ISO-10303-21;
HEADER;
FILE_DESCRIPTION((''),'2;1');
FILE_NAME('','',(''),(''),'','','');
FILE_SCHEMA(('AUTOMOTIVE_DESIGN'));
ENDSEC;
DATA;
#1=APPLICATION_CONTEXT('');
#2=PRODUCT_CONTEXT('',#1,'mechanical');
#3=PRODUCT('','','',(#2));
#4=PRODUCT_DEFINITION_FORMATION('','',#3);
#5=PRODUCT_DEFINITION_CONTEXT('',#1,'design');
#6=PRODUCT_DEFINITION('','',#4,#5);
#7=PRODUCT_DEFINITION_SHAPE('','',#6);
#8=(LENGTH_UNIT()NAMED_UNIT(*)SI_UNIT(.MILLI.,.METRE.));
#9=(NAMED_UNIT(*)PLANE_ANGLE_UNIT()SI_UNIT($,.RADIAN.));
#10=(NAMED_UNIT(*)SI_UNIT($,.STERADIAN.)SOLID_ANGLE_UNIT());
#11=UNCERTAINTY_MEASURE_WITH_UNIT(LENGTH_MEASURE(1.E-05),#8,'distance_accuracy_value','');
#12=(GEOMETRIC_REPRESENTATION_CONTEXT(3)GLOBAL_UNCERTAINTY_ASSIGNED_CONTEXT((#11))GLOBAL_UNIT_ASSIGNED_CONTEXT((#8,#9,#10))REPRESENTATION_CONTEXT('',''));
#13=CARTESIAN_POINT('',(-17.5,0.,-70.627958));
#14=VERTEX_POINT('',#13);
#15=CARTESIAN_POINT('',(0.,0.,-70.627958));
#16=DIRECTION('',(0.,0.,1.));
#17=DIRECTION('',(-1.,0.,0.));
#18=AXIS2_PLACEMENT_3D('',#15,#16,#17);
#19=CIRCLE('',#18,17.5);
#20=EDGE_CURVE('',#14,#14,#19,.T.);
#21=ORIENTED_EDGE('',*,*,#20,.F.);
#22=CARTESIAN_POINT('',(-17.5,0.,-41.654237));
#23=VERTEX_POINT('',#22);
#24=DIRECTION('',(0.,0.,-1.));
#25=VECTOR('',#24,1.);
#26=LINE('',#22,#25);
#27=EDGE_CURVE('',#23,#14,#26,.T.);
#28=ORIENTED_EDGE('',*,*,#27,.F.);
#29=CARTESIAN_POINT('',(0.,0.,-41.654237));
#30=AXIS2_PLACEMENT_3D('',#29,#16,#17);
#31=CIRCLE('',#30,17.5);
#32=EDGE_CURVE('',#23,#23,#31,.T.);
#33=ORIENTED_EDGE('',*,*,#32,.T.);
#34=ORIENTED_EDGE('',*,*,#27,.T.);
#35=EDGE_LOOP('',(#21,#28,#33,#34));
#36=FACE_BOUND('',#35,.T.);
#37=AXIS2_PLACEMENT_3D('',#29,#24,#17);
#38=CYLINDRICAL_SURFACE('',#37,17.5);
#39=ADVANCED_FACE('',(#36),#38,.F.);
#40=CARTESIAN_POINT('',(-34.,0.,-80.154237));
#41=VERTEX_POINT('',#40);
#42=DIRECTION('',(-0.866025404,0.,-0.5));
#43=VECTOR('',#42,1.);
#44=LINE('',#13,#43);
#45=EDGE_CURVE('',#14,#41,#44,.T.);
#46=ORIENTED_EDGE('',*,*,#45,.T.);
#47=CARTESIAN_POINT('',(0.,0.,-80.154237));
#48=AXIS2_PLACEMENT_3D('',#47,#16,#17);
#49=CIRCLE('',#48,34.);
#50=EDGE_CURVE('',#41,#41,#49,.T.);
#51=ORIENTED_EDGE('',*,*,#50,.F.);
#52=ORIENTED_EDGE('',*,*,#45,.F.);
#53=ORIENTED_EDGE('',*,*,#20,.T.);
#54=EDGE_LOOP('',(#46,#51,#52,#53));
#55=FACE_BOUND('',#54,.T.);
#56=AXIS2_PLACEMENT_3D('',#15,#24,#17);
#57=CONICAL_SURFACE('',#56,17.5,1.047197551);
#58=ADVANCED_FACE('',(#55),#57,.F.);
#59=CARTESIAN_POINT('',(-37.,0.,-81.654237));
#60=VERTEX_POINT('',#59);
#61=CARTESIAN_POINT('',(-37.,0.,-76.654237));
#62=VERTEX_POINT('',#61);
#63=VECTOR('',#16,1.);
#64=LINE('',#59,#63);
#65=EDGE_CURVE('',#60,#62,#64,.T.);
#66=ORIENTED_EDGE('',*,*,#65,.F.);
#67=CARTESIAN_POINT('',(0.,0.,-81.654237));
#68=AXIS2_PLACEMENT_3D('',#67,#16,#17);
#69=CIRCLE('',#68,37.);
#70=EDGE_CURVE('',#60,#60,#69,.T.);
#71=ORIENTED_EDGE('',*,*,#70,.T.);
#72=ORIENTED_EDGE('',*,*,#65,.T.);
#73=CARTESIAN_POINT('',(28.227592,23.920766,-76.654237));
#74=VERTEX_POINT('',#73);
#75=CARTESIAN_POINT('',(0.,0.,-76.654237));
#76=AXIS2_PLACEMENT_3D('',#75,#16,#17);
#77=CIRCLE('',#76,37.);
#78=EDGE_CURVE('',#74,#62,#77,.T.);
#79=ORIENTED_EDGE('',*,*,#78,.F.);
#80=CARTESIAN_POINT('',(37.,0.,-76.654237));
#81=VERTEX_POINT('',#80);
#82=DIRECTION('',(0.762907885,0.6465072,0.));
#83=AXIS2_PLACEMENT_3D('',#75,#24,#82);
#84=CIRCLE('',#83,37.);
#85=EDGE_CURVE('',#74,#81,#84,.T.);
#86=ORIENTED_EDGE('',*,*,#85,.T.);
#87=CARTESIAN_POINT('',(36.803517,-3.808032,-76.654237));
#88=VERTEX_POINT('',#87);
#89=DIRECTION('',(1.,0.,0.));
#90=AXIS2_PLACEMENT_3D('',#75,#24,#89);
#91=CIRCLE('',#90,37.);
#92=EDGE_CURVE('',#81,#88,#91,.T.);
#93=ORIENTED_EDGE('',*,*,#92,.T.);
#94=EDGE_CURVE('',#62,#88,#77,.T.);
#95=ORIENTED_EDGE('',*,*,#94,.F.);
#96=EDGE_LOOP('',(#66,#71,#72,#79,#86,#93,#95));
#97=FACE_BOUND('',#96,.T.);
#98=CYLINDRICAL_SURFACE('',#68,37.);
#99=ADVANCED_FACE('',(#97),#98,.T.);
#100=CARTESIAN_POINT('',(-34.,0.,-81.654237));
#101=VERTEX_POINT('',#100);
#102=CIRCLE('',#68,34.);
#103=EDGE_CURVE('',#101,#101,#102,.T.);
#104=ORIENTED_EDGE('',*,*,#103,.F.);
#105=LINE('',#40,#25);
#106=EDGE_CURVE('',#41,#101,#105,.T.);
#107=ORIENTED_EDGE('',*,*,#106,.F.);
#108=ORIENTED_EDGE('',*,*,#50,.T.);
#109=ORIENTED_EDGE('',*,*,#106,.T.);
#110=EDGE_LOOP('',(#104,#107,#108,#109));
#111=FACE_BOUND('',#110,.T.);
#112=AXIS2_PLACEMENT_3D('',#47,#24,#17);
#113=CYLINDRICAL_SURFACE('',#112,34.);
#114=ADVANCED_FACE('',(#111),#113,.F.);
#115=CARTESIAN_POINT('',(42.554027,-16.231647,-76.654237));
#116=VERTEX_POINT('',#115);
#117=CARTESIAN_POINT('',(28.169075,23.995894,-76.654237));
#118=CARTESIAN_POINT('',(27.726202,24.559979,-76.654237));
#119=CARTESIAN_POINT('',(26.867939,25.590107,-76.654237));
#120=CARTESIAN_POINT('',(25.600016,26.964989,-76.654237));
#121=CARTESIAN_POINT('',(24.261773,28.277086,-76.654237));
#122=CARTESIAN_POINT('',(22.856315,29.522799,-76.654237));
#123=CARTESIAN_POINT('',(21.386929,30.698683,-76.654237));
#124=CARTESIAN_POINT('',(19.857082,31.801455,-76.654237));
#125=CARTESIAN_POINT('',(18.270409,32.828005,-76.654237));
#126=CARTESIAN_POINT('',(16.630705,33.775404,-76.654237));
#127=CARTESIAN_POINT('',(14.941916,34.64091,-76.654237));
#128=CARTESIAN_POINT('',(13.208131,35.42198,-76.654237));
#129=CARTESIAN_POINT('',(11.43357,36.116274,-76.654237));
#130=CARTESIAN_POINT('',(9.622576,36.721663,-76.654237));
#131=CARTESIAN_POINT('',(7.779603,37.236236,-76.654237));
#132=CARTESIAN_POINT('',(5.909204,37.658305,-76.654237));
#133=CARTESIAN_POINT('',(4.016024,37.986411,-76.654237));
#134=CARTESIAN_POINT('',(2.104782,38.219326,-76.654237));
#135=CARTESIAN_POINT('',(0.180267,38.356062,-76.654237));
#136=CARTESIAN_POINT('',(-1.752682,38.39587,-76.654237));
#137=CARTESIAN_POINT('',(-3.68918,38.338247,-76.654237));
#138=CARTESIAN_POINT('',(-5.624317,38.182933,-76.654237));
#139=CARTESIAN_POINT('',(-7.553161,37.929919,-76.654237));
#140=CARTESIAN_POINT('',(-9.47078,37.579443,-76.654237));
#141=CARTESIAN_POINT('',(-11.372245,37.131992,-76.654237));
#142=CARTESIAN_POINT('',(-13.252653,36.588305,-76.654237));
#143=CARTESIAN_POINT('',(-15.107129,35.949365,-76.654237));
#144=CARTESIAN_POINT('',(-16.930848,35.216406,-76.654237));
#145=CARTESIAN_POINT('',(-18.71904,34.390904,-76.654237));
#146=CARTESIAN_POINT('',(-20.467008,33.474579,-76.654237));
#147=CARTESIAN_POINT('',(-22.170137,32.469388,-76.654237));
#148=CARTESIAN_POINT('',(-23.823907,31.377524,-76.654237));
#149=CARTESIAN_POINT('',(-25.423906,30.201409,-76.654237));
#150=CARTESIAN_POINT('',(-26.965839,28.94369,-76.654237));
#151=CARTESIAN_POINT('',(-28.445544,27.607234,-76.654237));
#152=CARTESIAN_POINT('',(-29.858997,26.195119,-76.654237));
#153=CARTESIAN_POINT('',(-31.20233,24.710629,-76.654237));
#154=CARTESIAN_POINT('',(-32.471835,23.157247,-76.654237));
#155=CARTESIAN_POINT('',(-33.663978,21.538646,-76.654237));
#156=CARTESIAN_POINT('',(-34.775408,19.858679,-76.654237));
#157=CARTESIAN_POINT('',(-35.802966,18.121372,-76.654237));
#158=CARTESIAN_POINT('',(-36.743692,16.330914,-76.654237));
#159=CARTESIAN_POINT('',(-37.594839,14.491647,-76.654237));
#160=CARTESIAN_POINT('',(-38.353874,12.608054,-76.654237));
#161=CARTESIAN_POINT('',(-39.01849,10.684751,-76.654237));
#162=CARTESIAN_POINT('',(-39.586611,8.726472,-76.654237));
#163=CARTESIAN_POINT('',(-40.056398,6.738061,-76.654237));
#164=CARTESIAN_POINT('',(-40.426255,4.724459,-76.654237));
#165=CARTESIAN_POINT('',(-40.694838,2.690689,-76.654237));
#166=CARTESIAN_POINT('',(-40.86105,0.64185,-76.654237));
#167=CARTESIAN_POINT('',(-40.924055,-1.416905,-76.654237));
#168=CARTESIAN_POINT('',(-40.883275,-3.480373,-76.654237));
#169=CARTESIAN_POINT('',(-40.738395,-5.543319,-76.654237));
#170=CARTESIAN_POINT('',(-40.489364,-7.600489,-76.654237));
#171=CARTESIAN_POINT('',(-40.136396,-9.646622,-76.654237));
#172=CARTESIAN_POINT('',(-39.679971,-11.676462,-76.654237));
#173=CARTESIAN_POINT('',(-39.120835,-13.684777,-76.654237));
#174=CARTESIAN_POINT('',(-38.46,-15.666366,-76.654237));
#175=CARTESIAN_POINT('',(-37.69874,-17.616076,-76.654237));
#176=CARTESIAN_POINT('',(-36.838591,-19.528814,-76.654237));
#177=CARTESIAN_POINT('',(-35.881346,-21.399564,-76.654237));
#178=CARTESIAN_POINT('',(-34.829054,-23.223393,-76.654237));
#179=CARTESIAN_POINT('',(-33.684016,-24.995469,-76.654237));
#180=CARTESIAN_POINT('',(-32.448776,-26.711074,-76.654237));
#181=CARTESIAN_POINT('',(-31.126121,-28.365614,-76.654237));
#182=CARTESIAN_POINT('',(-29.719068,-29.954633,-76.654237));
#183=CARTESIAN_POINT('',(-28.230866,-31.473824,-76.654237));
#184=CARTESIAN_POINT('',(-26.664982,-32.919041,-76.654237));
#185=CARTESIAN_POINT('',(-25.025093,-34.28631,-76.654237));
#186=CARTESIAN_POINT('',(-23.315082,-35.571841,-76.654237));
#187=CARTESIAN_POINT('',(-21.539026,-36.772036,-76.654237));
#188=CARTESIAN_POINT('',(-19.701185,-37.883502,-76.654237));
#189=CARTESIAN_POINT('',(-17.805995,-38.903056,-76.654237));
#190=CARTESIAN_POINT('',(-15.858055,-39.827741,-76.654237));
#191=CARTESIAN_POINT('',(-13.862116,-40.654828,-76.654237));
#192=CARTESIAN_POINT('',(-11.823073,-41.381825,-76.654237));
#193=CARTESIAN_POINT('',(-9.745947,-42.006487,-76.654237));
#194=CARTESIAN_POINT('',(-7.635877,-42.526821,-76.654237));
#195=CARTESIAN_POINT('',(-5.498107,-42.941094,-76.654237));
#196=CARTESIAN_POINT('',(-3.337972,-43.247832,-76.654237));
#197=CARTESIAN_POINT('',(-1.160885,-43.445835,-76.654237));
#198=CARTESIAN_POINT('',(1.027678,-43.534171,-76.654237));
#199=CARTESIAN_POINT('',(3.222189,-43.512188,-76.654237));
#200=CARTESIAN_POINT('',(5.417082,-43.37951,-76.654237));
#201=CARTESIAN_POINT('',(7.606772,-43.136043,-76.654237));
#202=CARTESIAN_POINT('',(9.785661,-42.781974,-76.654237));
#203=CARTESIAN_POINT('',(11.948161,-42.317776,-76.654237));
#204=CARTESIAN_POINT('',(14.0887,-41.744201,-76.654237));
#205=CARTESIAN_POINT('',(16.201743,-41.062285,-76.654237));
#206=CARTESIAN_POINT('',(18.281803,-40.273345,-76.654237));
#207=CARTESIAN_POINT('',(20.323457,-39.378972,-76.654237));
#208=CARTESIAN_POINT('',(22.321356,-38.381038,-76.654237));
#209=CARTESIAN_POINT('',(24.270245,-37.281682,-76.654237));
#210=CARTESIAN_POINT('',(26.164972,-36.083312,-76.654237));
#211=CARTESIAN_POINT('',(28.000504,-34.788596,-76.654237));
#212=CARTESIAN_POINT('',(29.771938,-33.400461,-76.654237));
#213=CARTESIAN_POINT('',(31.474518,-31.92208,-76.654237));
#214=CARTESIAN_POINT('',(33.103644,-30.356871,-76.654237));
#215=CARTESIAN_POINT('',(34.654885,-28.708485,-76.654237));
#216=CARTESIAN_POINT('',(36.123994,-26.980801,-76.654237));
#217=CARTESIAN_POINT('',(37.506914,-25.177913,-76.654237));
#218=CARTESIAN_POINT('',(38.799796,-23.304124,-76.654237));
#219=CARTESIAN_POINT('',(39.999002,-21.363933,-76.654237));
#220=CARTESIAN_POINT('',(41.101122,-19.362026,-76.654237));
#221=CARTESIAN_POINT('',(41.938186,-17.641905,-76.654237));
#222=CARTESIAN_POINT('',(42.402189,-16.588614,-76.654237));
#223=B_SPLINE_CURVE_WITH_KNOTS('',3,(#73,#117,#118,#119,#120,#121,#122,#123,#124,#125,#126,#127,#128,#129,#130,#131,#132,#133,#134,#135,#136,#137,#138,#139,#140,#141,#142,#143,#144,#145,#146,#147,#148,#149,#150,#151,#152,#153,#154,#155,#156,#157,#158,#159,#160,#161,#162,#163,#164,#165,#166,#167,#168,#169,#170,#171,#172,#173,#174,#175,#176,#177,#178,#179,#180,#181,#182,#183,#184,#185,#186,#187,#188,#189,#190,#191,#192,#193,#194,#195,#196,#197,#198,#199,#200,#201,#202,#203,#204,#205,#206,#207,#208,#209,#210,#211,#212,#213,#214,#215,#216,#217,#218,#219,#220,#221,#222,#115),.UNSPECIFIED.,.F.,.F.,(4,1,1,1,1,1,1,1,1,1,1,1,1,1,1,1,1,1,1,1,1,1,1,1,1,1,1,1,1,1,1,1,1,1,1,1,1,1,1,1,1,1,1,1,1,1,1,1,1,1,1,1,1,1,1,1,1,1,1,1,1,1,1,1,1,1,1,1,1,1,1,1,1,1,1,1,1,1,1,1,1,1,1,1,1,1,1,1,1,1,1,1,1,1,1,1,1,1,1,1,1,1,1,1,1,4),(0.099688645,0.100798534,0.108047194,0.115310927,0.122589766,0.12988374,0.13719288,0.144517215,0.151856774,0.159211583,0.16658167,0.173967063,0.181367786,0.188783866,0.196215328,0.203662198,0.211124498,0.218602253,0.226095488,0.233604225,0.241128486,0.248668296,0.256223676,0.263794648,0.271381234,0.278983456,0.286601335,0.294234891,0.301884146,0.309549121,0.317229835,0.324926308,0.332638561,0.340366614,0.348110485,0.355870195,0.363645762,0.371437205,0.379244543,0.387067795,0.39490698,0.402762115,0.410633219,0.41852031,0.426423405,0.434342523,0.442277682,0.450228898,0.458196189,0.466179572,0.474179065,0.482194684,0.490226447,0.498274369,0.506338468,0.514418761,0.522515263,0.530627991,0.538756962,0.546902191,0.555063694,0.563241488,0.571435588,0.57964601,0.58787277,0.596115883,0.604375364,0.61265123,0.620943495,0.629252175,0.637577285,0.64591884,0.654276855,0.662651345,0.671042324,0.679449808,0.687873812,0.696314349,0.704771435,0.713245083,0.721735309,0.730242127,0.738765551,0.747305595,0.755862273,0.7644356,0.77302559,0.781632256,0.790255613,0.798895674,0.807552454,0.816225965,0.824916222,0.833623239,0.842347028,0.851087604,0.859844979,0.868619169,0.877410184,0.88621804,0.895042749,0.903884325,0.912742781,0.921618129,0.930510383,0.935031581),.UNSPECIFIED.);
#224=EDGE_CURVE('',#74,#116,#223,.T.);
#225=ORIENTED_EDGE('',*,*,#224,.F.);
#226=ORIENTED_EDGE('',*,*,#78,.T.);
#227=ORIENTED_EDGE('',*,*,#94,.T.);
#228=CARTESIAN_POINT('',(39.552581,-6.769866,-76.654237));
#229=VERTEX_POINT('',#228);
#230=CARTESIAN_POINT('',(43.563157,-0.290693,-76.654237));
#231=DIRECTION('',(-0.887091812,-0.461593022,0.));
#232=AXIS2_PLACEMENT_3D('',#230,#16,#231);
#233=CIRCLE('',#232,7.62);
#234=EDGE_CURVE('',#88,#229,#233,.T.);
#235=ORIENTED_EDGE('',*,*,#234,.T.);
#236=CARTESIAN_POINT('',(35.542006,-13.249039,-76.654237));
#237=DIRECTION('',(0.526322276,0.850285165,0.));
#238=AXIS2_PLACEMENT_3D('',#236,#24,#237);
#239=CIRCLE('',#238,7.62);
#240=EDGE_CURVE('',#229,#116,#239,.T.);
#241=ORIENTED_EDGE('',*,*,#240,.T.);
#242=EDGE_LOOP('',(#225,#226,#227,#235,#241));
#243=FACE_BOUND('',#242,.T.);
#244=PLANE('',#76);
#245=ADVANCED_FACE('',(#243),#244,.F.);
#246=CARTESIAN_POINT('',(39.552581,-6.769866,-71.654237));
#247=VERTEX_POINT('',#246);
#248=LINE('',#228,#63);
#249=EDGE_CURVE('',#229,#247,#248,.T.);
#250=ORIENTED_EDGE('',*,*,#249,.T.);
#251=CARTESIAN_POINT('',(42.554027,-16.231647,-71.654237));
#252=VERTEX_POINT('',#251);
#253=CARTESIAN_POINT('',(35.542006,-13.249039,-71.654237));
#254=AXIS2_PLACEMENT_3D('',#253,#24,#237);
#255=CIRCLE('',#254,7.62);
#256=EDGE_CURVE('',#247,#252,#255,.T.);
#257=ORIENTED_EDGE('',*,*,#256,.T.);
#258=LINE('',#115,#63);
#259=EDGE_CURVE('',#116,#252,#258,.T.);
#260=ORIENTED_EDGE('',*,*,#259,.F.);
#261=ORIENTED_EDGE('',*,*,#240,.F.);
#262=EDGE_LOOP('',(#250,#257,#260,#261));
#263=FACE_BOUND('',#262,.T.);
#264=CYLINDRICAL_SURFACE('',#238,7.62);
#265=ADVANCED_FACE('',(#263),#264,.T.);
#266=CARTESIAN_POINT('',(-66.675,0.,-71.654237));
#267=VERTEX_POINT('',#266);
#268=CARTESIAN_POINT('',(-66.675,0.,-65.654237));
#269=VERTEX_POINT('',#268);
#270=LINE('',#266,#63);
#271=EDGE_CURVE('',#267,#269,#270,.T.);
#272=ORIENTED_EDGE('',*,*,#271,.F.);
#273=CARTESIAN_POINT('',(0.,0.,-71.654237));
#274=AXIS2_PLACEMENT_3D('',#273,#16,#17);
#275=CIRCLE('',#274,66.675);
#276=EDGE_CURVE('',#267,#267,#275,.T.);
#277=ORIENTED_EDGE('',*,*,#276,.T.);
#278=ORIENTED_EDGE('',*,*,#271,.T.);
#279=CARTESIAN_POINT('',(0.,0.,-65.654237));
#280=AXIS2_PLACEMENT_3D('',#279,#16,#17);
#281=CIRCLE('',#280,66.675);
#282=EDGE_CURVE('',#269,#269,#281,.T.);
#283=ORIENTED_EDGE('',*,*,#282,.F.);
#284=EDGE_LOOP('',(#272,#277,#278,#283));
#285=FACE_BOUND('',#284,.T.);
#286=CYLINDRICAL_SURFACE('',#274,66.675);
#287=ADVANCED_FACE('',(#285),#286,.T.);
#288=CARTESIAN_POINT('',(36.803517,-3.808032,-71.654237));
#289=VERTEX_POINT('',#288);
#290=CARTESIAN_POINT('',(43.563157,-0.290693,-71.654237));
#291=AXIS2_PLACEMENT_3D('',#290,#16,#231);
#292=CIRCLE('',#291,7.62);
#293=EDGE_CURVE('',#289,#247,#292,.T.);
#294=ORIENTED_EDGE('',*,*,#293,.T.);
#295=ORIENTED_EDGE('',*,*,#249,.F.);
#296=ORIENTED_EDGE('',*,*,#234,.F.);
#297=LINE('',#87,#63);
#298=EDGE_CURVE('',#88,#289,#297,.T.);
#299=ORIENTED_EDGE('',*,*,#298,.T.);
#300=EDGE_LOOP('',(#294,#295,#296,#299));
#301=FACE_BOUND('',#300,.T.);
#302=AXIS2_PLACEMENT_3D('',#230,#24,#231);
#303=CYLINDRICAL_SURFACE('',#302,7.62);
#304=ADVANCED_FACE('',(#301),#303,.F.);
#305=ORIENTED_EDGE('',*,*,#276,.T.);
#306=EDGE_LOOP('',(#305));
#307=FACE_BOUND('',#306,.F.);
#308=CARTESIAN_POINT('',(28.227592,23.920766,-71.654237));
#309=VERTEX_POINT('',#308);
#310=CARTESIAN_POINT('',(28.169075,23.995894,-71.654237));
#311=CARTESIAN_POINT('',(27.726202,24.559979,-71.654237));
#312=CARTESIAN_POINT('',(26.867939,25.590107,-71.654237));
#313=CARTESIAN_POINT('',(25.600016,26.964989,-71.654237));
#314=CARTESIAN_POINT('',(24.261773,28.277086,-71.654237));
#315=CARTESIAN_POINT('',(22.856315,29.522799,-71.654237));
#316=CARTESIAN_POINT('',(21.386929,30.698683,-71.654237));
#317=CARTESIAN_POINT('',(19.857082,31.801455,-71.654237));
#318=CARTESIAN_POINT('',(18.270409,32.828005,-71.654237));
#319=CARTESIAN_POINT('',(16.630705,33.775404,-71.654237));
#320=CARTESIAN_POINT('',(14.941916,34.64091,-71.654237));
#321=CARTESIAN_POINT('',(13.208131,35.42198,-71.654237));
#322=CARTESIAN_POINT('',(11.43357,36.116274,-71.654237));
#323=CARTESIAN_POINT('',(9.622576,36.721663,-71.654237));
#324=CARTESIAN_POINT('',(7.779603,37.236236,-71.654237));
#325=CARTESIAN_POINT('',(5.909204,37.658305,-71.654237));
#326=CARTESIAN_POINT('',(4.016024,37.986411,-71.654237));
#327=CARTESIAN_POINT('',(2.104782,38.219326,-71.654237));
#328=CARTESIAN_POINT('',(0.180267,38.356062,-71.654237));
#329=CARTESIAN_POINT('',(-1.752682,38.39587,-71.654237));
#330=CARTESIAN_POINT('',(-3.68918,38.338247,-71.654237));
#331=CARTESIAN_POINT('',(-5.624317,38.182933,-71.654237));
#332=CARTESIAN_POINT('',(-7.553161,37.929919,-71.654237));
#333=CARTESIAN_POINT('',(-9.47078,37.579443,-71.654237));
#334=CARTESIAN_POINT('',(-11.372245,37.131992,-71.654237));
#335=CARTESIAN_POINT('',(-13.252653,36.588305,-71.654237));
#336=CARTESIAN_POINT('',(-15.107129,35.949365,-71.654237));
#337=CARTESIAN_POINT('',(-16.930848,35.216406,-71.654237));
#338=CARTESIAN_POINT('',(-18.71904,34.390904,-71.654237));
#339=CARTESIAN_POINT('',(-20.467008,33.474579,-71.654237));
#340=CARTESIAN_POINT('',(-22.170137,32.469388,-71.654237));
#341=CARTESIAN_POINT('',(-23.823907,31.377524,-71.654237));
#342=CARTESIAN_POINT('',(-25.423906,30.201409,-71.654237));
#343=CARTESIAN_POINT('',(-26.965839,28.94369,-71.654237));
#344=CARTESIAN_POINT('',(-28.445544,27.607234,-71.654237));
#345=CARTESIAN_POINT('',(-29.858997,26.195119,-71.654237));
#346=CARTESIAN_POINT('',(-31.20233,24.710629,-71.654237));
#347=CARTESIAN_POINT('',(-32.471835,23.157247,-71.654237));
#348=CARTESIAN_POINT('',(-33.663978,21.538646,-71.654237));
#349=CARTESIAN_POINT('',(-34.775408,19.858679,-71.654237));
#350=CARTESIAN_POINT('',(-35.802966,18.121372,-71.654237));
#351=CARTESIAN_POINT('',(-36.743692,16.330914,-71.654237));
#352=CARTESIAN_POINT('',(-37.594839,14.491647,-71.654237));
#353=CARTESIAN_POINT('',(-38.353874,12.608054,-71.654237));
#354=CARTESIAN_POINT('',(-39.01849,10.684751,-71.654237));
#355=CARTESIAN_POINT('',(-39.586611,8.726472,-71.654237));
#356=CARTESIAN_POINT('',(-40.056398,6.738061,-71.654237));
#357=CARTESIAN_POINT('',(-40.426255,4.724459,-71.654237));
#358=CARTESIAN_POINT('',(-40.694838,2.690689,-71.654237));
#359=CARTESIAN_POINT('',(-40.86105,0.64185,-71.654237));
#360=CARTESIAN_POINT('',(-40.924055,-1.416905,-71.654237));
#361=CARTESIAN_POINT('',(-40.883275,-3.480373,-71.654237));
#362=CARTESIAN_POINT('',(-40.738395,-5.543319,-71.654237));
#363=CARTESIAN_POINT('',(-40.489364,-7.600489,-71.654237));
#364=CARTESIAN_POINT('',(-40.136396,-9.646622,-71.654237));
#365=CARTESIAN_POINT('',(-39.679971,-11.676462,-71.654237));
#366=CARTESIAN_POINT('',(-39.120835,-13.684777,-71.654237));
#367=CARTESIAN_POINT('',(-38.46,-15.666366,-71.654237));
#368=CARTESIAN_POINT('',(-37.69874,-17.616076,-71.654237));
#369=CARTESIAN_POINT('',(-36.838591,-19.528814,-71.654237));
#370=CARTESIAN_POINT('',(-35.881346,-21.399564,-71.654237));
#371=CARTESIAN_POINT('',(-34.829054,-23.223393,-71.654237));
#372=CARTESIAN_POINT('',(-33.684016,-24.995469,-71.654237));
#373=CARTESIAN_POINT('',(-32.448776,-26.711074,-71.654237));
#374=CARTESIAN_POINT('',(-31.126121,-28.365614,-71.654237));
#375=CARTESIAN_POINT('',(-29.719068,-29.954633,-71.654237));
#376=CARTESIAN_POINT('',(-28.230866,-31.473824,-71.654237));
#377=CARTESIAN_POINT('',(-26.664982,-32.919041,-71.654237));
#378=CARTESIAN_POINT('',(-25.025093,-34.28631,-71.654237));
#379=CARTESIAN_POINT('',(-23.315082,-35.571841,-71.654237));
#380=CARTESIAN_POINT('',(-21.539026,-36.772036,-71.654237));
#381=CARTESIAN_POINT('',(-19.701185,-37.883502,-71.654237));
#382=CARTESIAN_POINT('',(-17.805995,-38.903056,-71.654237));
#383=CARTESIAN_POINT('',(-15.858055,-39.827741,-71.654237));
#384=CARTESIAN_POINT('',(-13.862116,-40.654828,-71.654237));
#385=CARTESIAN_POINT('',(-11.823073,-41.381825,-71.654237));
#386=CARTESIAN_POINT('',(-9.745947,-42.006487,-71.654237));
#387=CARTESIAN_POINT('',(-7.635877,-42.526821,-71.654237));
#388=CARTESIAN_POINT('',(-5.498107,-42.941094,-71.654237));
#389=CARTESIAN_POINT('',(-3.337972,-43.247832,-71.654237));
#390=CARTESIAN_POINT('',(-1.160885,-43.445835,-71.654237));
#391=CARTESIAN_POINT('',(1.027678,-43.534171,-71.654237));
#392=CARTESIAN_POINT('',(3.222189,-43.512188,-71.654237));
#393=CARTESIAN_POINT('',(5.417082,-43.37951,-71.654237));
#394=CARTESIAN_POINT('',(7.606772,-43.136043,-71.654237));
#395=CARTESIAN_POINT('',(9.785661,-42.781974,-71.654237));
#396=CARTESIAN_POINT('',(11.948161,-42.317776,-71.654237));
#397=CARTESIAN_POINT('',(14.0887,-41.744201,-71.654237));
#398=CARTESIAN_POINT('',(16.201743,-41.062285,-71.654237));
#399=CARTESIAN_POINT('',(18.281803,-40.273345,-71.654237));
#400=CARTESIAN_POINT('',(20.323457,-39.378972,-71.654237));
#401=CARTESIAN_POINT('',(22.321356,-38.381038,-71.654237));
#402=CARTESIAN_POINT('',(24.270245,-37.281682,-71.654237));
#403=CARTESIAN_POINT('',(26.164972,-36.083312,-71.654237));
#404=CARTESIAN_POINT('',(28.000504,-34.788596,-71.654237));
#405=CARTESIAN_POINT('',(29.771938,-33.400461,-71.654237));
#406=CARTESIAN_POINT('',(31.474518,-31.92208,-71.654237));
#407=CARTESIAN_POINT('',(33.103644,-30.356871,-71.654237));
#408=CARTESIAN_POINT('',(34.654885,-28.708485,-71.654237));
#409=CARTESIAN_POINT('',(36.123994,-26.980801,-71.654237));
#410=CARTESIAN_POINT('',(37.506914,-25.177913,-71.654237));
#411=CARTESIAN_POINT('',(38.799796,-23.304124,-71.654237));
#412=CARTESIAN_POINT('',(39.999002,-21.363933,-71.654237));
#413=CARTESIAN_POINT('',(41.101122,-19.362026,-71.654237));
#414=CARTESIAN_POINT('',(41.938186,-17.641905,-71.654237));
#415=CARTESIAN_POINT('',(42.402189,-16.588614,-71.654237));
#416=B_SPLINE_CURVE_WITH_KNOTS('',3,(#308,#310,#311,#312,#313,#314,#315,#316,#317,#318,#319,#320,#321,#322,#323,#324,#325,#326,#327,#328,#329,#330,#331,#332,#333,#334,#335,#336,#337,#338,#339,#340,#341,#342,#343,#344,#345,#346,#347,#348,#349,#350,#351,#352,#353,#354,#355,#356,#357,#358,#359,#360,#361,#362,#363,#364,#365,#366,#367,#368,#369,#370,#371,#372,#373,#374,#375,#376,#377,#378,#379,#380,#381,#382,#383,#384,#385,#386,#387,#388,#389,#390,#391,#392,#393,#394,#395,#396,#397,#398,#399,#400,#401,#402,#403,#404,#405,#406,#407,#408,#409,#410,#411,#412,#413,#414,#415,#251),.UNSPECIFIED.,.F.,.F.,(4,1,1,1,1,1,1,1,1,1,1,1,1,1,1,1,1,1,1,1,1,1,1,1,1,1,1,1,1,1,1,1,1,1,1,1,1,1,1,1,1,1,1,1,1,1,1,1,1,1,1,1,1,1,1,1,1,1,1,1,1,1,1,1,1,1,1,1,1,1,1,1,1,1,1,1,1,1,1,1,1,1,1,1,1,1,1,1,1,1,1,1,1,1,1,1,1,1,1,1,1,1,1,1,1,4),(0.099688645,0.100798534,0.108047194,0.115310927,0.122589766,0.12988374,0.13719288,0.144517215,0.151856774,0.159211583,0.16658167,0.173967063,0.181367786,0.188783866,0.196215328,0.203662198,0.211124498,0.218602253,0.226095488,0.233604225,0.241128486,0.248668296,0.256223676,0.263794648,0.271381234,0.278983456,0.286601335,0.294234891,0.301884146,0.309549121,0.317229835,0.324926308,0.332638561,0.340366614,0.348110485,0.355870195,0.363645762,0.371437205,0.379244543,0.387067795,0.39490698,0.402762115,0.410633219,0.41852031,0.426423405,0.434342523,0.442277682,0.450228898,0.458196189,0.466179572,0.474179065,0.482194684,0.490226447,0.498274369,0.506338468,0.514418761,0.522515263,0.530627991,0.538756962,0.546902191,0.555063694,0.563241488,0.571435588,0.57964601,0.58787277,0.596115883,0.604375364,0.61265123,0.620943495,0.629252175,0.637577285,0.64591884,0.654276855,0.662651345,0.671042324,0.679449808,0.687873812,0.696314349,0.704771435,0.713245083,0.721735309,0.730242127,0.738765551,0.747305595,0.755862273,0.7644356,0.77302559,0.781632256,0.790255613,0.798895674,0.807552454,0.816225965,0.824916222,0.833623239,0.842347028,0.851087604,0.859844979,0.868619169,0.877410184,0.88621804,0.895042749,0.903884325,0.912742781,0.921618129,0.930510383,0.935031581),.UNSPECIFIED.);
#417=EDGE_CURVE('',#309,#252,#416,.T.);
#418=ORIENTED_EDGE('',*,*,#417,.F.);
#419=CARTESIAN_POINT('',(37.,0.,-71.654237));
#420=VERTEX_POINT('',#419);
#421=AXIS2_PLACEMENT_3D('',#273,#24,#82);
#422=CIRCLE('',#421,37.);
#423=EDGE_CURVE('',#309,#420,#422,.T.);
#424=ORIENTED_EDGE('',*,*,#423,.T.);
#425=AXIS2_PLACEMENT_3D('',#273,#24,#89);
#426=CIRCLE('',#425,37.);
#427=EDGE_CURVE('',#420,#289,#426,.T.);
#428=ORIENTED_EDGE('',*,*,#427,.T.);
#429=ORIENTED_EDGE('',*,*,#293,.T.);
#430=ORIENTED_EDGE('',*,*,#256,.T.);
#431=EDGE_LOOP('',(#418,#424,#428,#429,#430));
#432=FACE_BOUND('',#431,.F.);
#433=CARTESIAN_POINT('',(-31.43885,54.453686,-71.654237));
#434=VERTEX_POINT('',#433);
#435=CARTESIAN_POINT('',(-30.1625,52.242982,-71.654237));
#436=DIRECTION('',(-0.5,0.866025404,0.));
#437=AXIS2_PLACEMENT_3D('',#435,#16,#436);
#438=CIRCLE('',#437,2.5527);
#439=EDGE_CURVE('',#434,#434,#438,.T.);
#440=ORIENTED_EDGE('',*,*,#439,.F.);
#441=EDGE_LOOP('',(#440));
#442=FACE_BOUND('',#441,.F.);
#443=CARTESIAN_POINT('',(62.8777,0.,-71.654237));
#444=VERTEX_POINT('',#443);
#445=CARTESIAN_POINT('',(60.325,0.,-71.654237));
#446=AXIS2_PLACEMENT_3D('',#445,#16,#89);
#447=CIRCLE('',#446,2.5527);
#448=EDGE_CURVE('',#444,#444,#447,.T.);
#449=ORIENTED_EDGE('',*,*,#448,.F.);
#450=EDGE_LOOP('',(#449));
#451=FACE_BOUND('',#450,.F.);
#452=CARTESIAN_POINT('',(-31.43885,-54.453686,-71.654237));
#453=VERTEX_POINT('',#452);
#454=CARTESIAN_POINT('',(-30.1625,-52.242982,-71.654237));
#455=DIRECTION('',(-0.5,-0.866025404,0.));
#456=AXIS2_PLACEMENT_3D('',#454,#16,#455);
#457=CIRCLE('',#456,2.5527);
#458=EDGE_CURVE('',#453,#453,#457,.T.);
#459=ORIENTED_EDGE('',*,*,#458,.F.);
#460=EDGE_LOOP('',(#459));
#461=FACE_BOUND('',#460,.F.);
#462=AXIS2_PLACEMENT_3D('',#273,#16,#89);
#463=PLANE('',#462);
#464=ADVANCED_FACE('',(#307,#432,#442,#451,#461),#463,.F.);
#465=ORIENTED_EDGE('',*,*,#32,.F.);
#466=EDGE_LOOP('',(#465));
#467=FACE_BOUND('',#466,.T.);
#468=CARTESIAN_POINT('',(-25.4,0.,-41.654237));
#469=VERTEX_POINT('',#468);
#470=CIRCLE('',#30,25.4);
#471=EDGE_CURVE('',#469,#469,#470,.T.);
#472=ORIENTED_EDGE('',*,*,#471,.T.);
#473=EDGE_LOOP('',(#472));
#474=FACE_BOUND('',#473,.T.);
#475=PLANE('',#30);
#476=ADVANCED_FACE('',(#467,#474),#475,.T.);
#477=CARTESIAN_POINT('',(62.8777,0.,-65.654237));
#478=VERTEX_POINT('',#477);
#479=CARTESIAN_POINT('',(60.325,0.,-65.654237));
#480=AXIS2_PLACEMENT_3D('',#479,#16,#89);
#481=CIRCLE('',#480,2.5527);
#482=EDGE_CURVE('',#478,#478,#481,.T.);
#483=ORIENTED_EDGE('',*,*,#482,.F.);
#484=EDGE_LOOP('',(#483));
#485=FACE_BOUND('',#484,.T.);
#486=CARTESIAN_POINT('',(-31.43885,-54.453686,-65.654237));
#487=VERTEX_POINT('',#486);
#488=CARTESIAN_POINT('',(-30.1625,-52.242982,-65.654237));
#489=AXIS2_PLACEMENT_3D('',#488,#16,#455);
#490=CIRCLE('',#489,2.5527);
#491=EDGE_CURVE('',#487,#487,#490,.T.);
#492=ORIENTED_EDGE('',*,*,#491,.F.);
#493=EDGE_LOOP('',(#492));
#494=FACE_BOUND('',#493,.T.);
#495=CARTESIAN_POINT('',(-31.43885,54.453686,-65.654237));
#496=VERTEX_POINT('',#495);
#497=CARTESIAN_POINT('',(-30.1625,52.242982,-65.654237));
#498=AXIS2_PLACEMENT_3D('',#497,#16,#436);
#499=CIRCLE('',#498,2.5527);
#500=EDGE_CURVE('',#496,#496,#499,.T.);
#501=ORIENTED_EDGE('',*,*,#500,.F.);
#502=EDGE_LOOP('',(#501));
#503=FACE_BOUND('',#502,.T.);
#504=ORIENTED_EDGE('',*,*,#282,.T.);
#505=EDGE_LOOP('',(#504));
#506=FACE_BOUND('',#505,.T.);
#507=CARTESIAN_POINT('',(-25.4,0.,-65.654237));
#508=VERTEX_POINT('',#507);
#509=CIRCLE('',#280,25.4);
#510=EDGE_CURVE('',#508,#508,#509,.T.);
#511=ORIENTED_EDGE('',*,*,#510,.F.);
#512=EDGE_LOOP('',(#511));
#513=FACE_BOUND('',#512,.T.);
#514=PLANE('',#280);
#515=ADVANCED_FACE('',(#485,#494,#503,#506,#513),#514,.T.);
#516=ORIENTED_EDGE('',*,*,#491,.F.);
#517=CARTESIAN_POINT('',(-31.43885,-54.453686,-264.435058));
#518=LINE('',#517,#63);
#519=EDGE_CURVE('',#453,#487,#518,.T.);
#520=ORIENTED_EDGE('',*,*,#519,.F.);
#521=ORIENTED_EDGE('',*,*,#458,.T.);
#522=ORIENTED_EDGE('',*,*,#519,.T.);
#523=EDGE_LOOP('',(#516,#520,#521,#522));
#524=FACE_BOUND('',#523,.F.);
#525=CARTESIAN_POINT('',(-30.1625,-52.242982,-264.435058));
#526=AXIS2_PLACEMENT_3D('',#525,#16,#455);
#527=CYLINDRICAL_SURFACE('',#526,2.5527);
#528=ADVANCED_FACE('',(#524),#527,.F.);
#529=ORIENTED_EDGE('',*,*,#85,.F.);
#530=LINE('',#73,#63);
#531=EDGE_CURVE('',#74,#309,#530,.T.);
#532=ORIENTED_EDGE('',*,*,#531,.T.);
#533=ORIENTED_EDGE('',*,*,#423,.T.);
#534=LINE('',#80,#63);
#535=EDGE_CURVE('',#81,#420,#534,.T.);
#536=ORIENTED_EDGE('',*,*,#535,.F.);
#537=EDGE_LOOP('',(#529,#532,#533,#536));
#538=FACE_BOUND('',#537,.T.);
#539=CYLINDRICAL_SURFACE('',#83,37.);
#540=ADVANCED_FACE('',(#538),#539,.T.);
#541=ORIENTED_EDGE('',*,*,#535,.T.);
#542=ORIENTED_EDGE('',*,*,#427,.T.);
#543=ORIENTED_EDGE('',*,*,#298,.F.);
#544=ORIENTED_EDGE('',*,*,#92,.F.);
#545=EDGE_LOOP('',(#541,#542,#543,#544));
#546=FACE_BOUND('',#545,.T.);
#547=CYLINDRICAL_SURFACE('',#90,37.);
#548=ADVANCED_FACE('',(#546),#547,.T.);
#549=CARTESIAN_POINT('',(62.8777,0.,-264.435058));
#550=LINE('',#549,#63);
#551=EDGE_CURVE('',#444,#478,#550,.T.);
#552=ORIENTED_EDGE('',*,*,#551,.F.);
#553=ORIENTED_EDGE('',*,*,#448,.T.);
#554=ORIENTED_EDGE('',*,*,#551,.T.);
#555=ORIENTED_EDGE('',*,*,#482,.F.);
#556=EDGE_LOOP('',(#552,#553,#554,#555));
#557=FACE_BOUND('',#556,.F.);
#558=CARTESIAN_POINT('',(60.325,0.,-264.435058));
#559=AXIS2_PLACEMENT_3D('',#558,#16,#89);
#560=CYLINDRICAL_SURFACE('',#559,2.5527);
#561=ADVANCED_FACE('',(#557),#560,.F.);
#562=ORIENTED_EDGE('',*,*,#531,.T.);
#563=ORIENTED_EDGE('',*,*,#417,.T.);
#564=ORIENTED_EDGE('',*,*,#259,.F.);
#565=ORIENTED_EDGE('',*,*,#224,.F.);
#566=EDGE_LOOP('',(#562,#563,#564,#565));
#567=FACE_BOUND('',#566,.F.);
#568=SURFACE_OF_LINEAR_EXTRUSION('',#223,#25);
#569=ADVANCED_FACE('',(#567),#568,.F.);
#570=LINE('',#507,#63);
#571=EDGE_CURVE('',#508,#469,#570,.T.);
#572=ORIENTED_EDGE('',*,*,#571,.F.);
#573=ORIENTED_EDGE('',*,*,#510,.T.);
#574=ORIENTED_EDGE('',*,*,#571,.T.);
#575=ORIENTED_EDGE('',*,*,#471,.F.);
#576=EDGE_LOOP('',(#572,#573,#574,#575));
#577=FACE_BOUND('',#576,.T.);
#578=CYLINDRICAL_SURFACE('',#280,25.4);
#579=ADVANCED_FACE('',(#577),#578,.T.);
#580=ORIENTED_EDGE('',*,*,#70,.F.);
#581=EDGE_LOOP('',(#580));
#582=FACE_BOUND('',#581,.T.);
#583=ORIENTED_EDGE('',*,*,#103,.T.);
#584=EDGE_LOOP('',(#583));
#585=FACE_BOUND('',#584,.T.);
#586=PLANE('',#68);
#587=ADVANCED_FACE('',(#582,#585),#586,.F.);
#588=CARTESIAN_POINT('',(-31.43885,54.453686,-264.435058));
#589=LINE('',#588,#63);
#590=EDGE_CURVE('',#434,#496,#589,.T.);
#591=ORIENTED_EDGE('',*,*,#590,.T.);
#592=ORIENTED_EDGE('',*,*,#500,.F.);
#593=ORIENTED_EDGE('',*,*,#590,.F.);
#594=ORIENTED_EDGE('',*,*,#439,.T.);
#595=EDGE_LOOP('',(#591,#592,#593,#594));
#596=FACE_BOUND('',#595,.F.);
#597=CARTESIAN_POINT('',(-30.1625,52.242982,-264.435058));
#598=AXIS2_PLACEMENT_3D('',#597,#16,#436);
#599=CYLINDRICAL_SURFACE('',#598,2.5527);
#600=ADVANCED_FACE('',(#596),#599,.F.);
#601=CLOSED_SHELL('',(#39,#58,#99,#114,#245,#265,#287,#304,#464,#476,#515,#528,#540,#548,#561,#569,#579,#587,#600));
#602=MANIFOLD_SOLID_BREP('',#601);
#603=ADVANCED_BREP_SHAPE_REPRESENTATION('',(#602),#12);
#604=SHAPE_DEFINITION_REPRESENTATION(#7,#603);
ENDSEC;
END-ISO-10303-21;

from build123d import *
from build123d.topology import SkipClean

# Parameters (mm, degrees)
SKETCH18_R             = 47.625
CUT_EXTRUDE2_DEPTH     = 5
F_10_CLEARANCE_HOLE1_D = 5.1054
CIRPATTERN1_COUNT      = 3


with BuildPart() as part:
    # Sketch24 → Revolve1 (revolve)
    with BuildSketch(Plane(origin=(0, 0, 0), x_dir=(1, 0, 0), z_dir=(0, 1, 0))):
        Polygon((-37, 81.654237034), (-37, 76.654237034), (-47.625, 76.654237034), (-47.625, 71.654237034), (-66.675, 71.654237034), (-66.675, 65.654237034), (-25.4, 65.654237034), (-25.4, 41.654237034), (-17.5, 41.654237034), (-17.5, 70.627957592), (-34, 80.154237034), (-34, 81.654237034), align=None)
    revolve(axis=Axis((0, 0, -86.654237034), (0, 0, 1)))

    # Sketch18 → Cut-Extrude2 (cut)
    with SkipClean():  # the faces are left unmerged after this step: merging them gives an invalid solid
        with BuildSketch(Plane.XY.offset(-76.654237034)):
            Circle(SKETCH18_R)
            with BuildLine():
                ThreePointArc((36.803517411, -3.8080318), (37.978132396, -5.474504313), (39.552581276, -6.769865934))
                ThreePointArc((39.552581276, -6.769865934), (42.805320101, -10.94498561), (42.554027377, -16.231646763))
                add(Edge.make_bspline(
                    [(28.227591738, 23.920766389), (28.169074611, 23.995894132), (27.726201544, 24.559979405), (26.867938753, 25.590107465), (25.60001603, 26.964989265), (24.261773335, 28.277085961), (22.856314773, 29.522798851), (21.386929147, 30.698682629), (19.85708232, 31.801454876), (18.270409111, 32.828005175), (16.630704717, 33.775403815), (14.941915703, 34.640910073), (13.208130556, 35.421980041), (11.43356985, 36.116273987), (9.622576022, 36.721663214), (7.779602801, 37.236236415), (5.909204301, 37.658305492), (4.016023818, 37.986410831), (2.104782347, 38.219326014), (0.180266852, 38.356061949), (-1.75268168, 38.395870413), (-3.689180377, 38.338246992), (-5.624316777, 38.182933409), (-7.553161251, 37.929919231), (-9.470779522, 37.579442948), (-11.37224525, 37.131992419), (-13.252652651, 36.588304682), (-15.107129112, 35.949365124), (-16.930847778, 35.216406011), (-18.719040078, 34.390904381), (-20.467008144, 33.474579298), (-22.170137115, 32.469388481), (-23.823907266, 31.377524301), (-25.42390596, 30.201409162), (-26.965839357, 28.943690275), (-28.445543888, 27.607233836), (-29.858997424, 26.195118613), (-31.202330147, 24.710628968), (-32.471835063, 23.157247319), (-33.663978152, 21.538646066), (-34.775408104, 19.858679), (-35.802965645, 18.121372202), (-36.743692396, 16.330914471), (-37.594839261, 14.491647299), (-38.353874308, 12.608054401), (-39.018490139, 10.68475085), (-39.586610697, 8.726471825), (-40.056397525, 6.738061006), (-40.426255434, 4.724458642), (-40.694837576, 2.690689328), (-40.861049894, 0.641849508), (-40.924054953, -1.416905249), (-40.883275123, -3.480373184), (-40.738395114, -5.543319447), (-40.489363842, -7.600489337), (-40.13639564, -9.646621653), (-39.679970776, -11.676462103), (-39.120835312, -13.684776759), (-38.460000265, -15.666365517), (-37.698740094, -17.61607551), (-36.838590511, -19.528814477), (-35.881345602, -21.399564006), (-34.829054288, -23.223392663), (-33.684016107, -24.995468936), (-32.44877635, -26.711073982), (-31.126120537, -28.365614138), (-29.719068263, -29.954633155), (-28.230866416, -31.473824138), (-26.664981791, -32.919041144), (-25.025093105, -34.286310417), (-23.315082441, -35.571841228), (-21.53902614, -36.772036288), (-19.701185153, -37.883501708), (-17.805994889, -38.903056478), (-15.85805457, -39.827741435), (-13.862116128, -40.654827709), (-11.823072667, -41.381824596), (-9.745946518, -42.006486871), (-7.635876912, -42.526821485), (-5.498107312, -42.941093656), (-3.337972426, -43.247832311), (-1.160884928, -43.445834888), (1.027678058, -43.534171454), (3.222188708, -43.512188152), (5.417082419, -43.379509955), (7.606771886, -43.136042707), (9.785661288, -42.781974466), (11.948160555, -42.317776118), (14.08869967, -41.74420128), (16.201742982, -41.062285471), (18.281803484, -40.273344558), (20.323457017, -39.378972487), (22.321356376, -38.381038284), (24.27024527, -37.281682345), (26.164972102, -36.083312015), (28.000503535, -34.788596469), (29.77193781, -33.400460899), (31.474517775, -31.92208003), (33.103643596, -30.356870964), (34.654885111, -28.708485383), (36.123993806, -26.980801118), (37.506914359, -25.17791311), (38.799795742, -23.304123775), (39.999001844, -21.363932809), (41.101121576, -19.362026441), (41.938186302, -17.641904891), (42.402189205, -16.588613759), (42.554027377, -16.231646763)],
                    knots=[0.099688645, 0.099688645, 0.099688645, 0.099688645, 0.100798534, 0.108047194, 0.115310927, 0.122589766, 0.12988374, 0.13719288, 0.144517215, 0.151856774, 0.159211583, 0.16658167, 0.173967063, 0.181367786, 0.188783866, 0.196215328, 0.203662198, 0.211124498, 0.218602253, 0.226095488, 0.233604225, 0.241128486, 0.248668296, 0.256223676, 0.263794648, 0.271381234, 0.278983456, 0.286601335, 0.294234891, 0.301884146, 0.309549121, 0.317229835, 0.324926308, 0.332638561, 0.340366614, 0.348110485, 0.355870195, 0.363645762, 0.371437205, 0.379244543, 0.387067795, 0.39490698, 0.402762115, 0.410633219, 0.41852031, 0.426423405, 0.434342523, 0.442277682, 0.450228898, 0.458196189, 0.466179572, 0.474179065, 0.482194684, 0.490226447, 0.498274369, 0.506338468, 0.514418761, 0.522515263, 0.530627991, 0.538756962, 0.546902191, 0.555063694, 0.563241488, 0.571435588, 0.57964601, 0.58787277, 0.596115883, 0.604375364, 0.61265123, 0.620943495, 0.629252175, 0.637577285, 0.64591884, 0.654276855, 0.662651345, 0.671042324, 0.679449808, 0.687873812, 0.696314349, 0.704771435, 0.713245083, 0.721735309, 0.730242127, 0.738765551, 0.747305595, 0.755862273, 0.7644356, 0.77302559, 0.781632256, 0.790255613, 0.798895674, 0.807552454, 0.816225965, 0.824916222, 0.833623239, 0.842347028, 0.851087604, 0.859844979, 0.868619169, 0.877410184, 0.88621804, 0.895042749, 0.903884325, 0.912742781, 0.921618129, 0.930510383, 0.935031581, 0.935031581, 0.935031581, 0.935031581], degree=3))
                ThreePointArc((28.227591738, 23.920766389), (34.737738084, 12.739291693), (37, 0))
                ThreePointArc((37, 0), (36.950846703, -1.906548688), (36.803517411, -3.8080318))
            make_face(mode=Mode.SUBTRACT)
        extrude(amount=CUT_EXTRUDE2_DEPTH, mode=Mode.SUBTRACT)

    # #10 Clearance Hole1 (through all)
    with Locations(Plane(origin=(60.325, 0, -71.654237034), x_dir=(-1, 0, 0), z_dir=(0, 0, -1))):
        with Locations((0, 0)):
            f_10_clearance_hole1 = Hole(F_10_CLEARANCE_HOLE1_D / 2)

    # CirPattern1: #10 Clearance Hole1 ×3 about axis
    with SkipClean():  # the faces are left unmerged after this step: merging them gives an invalid solid
        cirpattern1_axis = Axis((0, 0, 0), (0, 0, 1))
        for i in range(1, CIRPATTERN1_COUNT):
            add(f_10_clearance_hole1.rotate(cirpattern1_axis, i * 360 / CIRPATTERN1_COUNT), mode=Mode.SUBTRACT)


solid = part.part
